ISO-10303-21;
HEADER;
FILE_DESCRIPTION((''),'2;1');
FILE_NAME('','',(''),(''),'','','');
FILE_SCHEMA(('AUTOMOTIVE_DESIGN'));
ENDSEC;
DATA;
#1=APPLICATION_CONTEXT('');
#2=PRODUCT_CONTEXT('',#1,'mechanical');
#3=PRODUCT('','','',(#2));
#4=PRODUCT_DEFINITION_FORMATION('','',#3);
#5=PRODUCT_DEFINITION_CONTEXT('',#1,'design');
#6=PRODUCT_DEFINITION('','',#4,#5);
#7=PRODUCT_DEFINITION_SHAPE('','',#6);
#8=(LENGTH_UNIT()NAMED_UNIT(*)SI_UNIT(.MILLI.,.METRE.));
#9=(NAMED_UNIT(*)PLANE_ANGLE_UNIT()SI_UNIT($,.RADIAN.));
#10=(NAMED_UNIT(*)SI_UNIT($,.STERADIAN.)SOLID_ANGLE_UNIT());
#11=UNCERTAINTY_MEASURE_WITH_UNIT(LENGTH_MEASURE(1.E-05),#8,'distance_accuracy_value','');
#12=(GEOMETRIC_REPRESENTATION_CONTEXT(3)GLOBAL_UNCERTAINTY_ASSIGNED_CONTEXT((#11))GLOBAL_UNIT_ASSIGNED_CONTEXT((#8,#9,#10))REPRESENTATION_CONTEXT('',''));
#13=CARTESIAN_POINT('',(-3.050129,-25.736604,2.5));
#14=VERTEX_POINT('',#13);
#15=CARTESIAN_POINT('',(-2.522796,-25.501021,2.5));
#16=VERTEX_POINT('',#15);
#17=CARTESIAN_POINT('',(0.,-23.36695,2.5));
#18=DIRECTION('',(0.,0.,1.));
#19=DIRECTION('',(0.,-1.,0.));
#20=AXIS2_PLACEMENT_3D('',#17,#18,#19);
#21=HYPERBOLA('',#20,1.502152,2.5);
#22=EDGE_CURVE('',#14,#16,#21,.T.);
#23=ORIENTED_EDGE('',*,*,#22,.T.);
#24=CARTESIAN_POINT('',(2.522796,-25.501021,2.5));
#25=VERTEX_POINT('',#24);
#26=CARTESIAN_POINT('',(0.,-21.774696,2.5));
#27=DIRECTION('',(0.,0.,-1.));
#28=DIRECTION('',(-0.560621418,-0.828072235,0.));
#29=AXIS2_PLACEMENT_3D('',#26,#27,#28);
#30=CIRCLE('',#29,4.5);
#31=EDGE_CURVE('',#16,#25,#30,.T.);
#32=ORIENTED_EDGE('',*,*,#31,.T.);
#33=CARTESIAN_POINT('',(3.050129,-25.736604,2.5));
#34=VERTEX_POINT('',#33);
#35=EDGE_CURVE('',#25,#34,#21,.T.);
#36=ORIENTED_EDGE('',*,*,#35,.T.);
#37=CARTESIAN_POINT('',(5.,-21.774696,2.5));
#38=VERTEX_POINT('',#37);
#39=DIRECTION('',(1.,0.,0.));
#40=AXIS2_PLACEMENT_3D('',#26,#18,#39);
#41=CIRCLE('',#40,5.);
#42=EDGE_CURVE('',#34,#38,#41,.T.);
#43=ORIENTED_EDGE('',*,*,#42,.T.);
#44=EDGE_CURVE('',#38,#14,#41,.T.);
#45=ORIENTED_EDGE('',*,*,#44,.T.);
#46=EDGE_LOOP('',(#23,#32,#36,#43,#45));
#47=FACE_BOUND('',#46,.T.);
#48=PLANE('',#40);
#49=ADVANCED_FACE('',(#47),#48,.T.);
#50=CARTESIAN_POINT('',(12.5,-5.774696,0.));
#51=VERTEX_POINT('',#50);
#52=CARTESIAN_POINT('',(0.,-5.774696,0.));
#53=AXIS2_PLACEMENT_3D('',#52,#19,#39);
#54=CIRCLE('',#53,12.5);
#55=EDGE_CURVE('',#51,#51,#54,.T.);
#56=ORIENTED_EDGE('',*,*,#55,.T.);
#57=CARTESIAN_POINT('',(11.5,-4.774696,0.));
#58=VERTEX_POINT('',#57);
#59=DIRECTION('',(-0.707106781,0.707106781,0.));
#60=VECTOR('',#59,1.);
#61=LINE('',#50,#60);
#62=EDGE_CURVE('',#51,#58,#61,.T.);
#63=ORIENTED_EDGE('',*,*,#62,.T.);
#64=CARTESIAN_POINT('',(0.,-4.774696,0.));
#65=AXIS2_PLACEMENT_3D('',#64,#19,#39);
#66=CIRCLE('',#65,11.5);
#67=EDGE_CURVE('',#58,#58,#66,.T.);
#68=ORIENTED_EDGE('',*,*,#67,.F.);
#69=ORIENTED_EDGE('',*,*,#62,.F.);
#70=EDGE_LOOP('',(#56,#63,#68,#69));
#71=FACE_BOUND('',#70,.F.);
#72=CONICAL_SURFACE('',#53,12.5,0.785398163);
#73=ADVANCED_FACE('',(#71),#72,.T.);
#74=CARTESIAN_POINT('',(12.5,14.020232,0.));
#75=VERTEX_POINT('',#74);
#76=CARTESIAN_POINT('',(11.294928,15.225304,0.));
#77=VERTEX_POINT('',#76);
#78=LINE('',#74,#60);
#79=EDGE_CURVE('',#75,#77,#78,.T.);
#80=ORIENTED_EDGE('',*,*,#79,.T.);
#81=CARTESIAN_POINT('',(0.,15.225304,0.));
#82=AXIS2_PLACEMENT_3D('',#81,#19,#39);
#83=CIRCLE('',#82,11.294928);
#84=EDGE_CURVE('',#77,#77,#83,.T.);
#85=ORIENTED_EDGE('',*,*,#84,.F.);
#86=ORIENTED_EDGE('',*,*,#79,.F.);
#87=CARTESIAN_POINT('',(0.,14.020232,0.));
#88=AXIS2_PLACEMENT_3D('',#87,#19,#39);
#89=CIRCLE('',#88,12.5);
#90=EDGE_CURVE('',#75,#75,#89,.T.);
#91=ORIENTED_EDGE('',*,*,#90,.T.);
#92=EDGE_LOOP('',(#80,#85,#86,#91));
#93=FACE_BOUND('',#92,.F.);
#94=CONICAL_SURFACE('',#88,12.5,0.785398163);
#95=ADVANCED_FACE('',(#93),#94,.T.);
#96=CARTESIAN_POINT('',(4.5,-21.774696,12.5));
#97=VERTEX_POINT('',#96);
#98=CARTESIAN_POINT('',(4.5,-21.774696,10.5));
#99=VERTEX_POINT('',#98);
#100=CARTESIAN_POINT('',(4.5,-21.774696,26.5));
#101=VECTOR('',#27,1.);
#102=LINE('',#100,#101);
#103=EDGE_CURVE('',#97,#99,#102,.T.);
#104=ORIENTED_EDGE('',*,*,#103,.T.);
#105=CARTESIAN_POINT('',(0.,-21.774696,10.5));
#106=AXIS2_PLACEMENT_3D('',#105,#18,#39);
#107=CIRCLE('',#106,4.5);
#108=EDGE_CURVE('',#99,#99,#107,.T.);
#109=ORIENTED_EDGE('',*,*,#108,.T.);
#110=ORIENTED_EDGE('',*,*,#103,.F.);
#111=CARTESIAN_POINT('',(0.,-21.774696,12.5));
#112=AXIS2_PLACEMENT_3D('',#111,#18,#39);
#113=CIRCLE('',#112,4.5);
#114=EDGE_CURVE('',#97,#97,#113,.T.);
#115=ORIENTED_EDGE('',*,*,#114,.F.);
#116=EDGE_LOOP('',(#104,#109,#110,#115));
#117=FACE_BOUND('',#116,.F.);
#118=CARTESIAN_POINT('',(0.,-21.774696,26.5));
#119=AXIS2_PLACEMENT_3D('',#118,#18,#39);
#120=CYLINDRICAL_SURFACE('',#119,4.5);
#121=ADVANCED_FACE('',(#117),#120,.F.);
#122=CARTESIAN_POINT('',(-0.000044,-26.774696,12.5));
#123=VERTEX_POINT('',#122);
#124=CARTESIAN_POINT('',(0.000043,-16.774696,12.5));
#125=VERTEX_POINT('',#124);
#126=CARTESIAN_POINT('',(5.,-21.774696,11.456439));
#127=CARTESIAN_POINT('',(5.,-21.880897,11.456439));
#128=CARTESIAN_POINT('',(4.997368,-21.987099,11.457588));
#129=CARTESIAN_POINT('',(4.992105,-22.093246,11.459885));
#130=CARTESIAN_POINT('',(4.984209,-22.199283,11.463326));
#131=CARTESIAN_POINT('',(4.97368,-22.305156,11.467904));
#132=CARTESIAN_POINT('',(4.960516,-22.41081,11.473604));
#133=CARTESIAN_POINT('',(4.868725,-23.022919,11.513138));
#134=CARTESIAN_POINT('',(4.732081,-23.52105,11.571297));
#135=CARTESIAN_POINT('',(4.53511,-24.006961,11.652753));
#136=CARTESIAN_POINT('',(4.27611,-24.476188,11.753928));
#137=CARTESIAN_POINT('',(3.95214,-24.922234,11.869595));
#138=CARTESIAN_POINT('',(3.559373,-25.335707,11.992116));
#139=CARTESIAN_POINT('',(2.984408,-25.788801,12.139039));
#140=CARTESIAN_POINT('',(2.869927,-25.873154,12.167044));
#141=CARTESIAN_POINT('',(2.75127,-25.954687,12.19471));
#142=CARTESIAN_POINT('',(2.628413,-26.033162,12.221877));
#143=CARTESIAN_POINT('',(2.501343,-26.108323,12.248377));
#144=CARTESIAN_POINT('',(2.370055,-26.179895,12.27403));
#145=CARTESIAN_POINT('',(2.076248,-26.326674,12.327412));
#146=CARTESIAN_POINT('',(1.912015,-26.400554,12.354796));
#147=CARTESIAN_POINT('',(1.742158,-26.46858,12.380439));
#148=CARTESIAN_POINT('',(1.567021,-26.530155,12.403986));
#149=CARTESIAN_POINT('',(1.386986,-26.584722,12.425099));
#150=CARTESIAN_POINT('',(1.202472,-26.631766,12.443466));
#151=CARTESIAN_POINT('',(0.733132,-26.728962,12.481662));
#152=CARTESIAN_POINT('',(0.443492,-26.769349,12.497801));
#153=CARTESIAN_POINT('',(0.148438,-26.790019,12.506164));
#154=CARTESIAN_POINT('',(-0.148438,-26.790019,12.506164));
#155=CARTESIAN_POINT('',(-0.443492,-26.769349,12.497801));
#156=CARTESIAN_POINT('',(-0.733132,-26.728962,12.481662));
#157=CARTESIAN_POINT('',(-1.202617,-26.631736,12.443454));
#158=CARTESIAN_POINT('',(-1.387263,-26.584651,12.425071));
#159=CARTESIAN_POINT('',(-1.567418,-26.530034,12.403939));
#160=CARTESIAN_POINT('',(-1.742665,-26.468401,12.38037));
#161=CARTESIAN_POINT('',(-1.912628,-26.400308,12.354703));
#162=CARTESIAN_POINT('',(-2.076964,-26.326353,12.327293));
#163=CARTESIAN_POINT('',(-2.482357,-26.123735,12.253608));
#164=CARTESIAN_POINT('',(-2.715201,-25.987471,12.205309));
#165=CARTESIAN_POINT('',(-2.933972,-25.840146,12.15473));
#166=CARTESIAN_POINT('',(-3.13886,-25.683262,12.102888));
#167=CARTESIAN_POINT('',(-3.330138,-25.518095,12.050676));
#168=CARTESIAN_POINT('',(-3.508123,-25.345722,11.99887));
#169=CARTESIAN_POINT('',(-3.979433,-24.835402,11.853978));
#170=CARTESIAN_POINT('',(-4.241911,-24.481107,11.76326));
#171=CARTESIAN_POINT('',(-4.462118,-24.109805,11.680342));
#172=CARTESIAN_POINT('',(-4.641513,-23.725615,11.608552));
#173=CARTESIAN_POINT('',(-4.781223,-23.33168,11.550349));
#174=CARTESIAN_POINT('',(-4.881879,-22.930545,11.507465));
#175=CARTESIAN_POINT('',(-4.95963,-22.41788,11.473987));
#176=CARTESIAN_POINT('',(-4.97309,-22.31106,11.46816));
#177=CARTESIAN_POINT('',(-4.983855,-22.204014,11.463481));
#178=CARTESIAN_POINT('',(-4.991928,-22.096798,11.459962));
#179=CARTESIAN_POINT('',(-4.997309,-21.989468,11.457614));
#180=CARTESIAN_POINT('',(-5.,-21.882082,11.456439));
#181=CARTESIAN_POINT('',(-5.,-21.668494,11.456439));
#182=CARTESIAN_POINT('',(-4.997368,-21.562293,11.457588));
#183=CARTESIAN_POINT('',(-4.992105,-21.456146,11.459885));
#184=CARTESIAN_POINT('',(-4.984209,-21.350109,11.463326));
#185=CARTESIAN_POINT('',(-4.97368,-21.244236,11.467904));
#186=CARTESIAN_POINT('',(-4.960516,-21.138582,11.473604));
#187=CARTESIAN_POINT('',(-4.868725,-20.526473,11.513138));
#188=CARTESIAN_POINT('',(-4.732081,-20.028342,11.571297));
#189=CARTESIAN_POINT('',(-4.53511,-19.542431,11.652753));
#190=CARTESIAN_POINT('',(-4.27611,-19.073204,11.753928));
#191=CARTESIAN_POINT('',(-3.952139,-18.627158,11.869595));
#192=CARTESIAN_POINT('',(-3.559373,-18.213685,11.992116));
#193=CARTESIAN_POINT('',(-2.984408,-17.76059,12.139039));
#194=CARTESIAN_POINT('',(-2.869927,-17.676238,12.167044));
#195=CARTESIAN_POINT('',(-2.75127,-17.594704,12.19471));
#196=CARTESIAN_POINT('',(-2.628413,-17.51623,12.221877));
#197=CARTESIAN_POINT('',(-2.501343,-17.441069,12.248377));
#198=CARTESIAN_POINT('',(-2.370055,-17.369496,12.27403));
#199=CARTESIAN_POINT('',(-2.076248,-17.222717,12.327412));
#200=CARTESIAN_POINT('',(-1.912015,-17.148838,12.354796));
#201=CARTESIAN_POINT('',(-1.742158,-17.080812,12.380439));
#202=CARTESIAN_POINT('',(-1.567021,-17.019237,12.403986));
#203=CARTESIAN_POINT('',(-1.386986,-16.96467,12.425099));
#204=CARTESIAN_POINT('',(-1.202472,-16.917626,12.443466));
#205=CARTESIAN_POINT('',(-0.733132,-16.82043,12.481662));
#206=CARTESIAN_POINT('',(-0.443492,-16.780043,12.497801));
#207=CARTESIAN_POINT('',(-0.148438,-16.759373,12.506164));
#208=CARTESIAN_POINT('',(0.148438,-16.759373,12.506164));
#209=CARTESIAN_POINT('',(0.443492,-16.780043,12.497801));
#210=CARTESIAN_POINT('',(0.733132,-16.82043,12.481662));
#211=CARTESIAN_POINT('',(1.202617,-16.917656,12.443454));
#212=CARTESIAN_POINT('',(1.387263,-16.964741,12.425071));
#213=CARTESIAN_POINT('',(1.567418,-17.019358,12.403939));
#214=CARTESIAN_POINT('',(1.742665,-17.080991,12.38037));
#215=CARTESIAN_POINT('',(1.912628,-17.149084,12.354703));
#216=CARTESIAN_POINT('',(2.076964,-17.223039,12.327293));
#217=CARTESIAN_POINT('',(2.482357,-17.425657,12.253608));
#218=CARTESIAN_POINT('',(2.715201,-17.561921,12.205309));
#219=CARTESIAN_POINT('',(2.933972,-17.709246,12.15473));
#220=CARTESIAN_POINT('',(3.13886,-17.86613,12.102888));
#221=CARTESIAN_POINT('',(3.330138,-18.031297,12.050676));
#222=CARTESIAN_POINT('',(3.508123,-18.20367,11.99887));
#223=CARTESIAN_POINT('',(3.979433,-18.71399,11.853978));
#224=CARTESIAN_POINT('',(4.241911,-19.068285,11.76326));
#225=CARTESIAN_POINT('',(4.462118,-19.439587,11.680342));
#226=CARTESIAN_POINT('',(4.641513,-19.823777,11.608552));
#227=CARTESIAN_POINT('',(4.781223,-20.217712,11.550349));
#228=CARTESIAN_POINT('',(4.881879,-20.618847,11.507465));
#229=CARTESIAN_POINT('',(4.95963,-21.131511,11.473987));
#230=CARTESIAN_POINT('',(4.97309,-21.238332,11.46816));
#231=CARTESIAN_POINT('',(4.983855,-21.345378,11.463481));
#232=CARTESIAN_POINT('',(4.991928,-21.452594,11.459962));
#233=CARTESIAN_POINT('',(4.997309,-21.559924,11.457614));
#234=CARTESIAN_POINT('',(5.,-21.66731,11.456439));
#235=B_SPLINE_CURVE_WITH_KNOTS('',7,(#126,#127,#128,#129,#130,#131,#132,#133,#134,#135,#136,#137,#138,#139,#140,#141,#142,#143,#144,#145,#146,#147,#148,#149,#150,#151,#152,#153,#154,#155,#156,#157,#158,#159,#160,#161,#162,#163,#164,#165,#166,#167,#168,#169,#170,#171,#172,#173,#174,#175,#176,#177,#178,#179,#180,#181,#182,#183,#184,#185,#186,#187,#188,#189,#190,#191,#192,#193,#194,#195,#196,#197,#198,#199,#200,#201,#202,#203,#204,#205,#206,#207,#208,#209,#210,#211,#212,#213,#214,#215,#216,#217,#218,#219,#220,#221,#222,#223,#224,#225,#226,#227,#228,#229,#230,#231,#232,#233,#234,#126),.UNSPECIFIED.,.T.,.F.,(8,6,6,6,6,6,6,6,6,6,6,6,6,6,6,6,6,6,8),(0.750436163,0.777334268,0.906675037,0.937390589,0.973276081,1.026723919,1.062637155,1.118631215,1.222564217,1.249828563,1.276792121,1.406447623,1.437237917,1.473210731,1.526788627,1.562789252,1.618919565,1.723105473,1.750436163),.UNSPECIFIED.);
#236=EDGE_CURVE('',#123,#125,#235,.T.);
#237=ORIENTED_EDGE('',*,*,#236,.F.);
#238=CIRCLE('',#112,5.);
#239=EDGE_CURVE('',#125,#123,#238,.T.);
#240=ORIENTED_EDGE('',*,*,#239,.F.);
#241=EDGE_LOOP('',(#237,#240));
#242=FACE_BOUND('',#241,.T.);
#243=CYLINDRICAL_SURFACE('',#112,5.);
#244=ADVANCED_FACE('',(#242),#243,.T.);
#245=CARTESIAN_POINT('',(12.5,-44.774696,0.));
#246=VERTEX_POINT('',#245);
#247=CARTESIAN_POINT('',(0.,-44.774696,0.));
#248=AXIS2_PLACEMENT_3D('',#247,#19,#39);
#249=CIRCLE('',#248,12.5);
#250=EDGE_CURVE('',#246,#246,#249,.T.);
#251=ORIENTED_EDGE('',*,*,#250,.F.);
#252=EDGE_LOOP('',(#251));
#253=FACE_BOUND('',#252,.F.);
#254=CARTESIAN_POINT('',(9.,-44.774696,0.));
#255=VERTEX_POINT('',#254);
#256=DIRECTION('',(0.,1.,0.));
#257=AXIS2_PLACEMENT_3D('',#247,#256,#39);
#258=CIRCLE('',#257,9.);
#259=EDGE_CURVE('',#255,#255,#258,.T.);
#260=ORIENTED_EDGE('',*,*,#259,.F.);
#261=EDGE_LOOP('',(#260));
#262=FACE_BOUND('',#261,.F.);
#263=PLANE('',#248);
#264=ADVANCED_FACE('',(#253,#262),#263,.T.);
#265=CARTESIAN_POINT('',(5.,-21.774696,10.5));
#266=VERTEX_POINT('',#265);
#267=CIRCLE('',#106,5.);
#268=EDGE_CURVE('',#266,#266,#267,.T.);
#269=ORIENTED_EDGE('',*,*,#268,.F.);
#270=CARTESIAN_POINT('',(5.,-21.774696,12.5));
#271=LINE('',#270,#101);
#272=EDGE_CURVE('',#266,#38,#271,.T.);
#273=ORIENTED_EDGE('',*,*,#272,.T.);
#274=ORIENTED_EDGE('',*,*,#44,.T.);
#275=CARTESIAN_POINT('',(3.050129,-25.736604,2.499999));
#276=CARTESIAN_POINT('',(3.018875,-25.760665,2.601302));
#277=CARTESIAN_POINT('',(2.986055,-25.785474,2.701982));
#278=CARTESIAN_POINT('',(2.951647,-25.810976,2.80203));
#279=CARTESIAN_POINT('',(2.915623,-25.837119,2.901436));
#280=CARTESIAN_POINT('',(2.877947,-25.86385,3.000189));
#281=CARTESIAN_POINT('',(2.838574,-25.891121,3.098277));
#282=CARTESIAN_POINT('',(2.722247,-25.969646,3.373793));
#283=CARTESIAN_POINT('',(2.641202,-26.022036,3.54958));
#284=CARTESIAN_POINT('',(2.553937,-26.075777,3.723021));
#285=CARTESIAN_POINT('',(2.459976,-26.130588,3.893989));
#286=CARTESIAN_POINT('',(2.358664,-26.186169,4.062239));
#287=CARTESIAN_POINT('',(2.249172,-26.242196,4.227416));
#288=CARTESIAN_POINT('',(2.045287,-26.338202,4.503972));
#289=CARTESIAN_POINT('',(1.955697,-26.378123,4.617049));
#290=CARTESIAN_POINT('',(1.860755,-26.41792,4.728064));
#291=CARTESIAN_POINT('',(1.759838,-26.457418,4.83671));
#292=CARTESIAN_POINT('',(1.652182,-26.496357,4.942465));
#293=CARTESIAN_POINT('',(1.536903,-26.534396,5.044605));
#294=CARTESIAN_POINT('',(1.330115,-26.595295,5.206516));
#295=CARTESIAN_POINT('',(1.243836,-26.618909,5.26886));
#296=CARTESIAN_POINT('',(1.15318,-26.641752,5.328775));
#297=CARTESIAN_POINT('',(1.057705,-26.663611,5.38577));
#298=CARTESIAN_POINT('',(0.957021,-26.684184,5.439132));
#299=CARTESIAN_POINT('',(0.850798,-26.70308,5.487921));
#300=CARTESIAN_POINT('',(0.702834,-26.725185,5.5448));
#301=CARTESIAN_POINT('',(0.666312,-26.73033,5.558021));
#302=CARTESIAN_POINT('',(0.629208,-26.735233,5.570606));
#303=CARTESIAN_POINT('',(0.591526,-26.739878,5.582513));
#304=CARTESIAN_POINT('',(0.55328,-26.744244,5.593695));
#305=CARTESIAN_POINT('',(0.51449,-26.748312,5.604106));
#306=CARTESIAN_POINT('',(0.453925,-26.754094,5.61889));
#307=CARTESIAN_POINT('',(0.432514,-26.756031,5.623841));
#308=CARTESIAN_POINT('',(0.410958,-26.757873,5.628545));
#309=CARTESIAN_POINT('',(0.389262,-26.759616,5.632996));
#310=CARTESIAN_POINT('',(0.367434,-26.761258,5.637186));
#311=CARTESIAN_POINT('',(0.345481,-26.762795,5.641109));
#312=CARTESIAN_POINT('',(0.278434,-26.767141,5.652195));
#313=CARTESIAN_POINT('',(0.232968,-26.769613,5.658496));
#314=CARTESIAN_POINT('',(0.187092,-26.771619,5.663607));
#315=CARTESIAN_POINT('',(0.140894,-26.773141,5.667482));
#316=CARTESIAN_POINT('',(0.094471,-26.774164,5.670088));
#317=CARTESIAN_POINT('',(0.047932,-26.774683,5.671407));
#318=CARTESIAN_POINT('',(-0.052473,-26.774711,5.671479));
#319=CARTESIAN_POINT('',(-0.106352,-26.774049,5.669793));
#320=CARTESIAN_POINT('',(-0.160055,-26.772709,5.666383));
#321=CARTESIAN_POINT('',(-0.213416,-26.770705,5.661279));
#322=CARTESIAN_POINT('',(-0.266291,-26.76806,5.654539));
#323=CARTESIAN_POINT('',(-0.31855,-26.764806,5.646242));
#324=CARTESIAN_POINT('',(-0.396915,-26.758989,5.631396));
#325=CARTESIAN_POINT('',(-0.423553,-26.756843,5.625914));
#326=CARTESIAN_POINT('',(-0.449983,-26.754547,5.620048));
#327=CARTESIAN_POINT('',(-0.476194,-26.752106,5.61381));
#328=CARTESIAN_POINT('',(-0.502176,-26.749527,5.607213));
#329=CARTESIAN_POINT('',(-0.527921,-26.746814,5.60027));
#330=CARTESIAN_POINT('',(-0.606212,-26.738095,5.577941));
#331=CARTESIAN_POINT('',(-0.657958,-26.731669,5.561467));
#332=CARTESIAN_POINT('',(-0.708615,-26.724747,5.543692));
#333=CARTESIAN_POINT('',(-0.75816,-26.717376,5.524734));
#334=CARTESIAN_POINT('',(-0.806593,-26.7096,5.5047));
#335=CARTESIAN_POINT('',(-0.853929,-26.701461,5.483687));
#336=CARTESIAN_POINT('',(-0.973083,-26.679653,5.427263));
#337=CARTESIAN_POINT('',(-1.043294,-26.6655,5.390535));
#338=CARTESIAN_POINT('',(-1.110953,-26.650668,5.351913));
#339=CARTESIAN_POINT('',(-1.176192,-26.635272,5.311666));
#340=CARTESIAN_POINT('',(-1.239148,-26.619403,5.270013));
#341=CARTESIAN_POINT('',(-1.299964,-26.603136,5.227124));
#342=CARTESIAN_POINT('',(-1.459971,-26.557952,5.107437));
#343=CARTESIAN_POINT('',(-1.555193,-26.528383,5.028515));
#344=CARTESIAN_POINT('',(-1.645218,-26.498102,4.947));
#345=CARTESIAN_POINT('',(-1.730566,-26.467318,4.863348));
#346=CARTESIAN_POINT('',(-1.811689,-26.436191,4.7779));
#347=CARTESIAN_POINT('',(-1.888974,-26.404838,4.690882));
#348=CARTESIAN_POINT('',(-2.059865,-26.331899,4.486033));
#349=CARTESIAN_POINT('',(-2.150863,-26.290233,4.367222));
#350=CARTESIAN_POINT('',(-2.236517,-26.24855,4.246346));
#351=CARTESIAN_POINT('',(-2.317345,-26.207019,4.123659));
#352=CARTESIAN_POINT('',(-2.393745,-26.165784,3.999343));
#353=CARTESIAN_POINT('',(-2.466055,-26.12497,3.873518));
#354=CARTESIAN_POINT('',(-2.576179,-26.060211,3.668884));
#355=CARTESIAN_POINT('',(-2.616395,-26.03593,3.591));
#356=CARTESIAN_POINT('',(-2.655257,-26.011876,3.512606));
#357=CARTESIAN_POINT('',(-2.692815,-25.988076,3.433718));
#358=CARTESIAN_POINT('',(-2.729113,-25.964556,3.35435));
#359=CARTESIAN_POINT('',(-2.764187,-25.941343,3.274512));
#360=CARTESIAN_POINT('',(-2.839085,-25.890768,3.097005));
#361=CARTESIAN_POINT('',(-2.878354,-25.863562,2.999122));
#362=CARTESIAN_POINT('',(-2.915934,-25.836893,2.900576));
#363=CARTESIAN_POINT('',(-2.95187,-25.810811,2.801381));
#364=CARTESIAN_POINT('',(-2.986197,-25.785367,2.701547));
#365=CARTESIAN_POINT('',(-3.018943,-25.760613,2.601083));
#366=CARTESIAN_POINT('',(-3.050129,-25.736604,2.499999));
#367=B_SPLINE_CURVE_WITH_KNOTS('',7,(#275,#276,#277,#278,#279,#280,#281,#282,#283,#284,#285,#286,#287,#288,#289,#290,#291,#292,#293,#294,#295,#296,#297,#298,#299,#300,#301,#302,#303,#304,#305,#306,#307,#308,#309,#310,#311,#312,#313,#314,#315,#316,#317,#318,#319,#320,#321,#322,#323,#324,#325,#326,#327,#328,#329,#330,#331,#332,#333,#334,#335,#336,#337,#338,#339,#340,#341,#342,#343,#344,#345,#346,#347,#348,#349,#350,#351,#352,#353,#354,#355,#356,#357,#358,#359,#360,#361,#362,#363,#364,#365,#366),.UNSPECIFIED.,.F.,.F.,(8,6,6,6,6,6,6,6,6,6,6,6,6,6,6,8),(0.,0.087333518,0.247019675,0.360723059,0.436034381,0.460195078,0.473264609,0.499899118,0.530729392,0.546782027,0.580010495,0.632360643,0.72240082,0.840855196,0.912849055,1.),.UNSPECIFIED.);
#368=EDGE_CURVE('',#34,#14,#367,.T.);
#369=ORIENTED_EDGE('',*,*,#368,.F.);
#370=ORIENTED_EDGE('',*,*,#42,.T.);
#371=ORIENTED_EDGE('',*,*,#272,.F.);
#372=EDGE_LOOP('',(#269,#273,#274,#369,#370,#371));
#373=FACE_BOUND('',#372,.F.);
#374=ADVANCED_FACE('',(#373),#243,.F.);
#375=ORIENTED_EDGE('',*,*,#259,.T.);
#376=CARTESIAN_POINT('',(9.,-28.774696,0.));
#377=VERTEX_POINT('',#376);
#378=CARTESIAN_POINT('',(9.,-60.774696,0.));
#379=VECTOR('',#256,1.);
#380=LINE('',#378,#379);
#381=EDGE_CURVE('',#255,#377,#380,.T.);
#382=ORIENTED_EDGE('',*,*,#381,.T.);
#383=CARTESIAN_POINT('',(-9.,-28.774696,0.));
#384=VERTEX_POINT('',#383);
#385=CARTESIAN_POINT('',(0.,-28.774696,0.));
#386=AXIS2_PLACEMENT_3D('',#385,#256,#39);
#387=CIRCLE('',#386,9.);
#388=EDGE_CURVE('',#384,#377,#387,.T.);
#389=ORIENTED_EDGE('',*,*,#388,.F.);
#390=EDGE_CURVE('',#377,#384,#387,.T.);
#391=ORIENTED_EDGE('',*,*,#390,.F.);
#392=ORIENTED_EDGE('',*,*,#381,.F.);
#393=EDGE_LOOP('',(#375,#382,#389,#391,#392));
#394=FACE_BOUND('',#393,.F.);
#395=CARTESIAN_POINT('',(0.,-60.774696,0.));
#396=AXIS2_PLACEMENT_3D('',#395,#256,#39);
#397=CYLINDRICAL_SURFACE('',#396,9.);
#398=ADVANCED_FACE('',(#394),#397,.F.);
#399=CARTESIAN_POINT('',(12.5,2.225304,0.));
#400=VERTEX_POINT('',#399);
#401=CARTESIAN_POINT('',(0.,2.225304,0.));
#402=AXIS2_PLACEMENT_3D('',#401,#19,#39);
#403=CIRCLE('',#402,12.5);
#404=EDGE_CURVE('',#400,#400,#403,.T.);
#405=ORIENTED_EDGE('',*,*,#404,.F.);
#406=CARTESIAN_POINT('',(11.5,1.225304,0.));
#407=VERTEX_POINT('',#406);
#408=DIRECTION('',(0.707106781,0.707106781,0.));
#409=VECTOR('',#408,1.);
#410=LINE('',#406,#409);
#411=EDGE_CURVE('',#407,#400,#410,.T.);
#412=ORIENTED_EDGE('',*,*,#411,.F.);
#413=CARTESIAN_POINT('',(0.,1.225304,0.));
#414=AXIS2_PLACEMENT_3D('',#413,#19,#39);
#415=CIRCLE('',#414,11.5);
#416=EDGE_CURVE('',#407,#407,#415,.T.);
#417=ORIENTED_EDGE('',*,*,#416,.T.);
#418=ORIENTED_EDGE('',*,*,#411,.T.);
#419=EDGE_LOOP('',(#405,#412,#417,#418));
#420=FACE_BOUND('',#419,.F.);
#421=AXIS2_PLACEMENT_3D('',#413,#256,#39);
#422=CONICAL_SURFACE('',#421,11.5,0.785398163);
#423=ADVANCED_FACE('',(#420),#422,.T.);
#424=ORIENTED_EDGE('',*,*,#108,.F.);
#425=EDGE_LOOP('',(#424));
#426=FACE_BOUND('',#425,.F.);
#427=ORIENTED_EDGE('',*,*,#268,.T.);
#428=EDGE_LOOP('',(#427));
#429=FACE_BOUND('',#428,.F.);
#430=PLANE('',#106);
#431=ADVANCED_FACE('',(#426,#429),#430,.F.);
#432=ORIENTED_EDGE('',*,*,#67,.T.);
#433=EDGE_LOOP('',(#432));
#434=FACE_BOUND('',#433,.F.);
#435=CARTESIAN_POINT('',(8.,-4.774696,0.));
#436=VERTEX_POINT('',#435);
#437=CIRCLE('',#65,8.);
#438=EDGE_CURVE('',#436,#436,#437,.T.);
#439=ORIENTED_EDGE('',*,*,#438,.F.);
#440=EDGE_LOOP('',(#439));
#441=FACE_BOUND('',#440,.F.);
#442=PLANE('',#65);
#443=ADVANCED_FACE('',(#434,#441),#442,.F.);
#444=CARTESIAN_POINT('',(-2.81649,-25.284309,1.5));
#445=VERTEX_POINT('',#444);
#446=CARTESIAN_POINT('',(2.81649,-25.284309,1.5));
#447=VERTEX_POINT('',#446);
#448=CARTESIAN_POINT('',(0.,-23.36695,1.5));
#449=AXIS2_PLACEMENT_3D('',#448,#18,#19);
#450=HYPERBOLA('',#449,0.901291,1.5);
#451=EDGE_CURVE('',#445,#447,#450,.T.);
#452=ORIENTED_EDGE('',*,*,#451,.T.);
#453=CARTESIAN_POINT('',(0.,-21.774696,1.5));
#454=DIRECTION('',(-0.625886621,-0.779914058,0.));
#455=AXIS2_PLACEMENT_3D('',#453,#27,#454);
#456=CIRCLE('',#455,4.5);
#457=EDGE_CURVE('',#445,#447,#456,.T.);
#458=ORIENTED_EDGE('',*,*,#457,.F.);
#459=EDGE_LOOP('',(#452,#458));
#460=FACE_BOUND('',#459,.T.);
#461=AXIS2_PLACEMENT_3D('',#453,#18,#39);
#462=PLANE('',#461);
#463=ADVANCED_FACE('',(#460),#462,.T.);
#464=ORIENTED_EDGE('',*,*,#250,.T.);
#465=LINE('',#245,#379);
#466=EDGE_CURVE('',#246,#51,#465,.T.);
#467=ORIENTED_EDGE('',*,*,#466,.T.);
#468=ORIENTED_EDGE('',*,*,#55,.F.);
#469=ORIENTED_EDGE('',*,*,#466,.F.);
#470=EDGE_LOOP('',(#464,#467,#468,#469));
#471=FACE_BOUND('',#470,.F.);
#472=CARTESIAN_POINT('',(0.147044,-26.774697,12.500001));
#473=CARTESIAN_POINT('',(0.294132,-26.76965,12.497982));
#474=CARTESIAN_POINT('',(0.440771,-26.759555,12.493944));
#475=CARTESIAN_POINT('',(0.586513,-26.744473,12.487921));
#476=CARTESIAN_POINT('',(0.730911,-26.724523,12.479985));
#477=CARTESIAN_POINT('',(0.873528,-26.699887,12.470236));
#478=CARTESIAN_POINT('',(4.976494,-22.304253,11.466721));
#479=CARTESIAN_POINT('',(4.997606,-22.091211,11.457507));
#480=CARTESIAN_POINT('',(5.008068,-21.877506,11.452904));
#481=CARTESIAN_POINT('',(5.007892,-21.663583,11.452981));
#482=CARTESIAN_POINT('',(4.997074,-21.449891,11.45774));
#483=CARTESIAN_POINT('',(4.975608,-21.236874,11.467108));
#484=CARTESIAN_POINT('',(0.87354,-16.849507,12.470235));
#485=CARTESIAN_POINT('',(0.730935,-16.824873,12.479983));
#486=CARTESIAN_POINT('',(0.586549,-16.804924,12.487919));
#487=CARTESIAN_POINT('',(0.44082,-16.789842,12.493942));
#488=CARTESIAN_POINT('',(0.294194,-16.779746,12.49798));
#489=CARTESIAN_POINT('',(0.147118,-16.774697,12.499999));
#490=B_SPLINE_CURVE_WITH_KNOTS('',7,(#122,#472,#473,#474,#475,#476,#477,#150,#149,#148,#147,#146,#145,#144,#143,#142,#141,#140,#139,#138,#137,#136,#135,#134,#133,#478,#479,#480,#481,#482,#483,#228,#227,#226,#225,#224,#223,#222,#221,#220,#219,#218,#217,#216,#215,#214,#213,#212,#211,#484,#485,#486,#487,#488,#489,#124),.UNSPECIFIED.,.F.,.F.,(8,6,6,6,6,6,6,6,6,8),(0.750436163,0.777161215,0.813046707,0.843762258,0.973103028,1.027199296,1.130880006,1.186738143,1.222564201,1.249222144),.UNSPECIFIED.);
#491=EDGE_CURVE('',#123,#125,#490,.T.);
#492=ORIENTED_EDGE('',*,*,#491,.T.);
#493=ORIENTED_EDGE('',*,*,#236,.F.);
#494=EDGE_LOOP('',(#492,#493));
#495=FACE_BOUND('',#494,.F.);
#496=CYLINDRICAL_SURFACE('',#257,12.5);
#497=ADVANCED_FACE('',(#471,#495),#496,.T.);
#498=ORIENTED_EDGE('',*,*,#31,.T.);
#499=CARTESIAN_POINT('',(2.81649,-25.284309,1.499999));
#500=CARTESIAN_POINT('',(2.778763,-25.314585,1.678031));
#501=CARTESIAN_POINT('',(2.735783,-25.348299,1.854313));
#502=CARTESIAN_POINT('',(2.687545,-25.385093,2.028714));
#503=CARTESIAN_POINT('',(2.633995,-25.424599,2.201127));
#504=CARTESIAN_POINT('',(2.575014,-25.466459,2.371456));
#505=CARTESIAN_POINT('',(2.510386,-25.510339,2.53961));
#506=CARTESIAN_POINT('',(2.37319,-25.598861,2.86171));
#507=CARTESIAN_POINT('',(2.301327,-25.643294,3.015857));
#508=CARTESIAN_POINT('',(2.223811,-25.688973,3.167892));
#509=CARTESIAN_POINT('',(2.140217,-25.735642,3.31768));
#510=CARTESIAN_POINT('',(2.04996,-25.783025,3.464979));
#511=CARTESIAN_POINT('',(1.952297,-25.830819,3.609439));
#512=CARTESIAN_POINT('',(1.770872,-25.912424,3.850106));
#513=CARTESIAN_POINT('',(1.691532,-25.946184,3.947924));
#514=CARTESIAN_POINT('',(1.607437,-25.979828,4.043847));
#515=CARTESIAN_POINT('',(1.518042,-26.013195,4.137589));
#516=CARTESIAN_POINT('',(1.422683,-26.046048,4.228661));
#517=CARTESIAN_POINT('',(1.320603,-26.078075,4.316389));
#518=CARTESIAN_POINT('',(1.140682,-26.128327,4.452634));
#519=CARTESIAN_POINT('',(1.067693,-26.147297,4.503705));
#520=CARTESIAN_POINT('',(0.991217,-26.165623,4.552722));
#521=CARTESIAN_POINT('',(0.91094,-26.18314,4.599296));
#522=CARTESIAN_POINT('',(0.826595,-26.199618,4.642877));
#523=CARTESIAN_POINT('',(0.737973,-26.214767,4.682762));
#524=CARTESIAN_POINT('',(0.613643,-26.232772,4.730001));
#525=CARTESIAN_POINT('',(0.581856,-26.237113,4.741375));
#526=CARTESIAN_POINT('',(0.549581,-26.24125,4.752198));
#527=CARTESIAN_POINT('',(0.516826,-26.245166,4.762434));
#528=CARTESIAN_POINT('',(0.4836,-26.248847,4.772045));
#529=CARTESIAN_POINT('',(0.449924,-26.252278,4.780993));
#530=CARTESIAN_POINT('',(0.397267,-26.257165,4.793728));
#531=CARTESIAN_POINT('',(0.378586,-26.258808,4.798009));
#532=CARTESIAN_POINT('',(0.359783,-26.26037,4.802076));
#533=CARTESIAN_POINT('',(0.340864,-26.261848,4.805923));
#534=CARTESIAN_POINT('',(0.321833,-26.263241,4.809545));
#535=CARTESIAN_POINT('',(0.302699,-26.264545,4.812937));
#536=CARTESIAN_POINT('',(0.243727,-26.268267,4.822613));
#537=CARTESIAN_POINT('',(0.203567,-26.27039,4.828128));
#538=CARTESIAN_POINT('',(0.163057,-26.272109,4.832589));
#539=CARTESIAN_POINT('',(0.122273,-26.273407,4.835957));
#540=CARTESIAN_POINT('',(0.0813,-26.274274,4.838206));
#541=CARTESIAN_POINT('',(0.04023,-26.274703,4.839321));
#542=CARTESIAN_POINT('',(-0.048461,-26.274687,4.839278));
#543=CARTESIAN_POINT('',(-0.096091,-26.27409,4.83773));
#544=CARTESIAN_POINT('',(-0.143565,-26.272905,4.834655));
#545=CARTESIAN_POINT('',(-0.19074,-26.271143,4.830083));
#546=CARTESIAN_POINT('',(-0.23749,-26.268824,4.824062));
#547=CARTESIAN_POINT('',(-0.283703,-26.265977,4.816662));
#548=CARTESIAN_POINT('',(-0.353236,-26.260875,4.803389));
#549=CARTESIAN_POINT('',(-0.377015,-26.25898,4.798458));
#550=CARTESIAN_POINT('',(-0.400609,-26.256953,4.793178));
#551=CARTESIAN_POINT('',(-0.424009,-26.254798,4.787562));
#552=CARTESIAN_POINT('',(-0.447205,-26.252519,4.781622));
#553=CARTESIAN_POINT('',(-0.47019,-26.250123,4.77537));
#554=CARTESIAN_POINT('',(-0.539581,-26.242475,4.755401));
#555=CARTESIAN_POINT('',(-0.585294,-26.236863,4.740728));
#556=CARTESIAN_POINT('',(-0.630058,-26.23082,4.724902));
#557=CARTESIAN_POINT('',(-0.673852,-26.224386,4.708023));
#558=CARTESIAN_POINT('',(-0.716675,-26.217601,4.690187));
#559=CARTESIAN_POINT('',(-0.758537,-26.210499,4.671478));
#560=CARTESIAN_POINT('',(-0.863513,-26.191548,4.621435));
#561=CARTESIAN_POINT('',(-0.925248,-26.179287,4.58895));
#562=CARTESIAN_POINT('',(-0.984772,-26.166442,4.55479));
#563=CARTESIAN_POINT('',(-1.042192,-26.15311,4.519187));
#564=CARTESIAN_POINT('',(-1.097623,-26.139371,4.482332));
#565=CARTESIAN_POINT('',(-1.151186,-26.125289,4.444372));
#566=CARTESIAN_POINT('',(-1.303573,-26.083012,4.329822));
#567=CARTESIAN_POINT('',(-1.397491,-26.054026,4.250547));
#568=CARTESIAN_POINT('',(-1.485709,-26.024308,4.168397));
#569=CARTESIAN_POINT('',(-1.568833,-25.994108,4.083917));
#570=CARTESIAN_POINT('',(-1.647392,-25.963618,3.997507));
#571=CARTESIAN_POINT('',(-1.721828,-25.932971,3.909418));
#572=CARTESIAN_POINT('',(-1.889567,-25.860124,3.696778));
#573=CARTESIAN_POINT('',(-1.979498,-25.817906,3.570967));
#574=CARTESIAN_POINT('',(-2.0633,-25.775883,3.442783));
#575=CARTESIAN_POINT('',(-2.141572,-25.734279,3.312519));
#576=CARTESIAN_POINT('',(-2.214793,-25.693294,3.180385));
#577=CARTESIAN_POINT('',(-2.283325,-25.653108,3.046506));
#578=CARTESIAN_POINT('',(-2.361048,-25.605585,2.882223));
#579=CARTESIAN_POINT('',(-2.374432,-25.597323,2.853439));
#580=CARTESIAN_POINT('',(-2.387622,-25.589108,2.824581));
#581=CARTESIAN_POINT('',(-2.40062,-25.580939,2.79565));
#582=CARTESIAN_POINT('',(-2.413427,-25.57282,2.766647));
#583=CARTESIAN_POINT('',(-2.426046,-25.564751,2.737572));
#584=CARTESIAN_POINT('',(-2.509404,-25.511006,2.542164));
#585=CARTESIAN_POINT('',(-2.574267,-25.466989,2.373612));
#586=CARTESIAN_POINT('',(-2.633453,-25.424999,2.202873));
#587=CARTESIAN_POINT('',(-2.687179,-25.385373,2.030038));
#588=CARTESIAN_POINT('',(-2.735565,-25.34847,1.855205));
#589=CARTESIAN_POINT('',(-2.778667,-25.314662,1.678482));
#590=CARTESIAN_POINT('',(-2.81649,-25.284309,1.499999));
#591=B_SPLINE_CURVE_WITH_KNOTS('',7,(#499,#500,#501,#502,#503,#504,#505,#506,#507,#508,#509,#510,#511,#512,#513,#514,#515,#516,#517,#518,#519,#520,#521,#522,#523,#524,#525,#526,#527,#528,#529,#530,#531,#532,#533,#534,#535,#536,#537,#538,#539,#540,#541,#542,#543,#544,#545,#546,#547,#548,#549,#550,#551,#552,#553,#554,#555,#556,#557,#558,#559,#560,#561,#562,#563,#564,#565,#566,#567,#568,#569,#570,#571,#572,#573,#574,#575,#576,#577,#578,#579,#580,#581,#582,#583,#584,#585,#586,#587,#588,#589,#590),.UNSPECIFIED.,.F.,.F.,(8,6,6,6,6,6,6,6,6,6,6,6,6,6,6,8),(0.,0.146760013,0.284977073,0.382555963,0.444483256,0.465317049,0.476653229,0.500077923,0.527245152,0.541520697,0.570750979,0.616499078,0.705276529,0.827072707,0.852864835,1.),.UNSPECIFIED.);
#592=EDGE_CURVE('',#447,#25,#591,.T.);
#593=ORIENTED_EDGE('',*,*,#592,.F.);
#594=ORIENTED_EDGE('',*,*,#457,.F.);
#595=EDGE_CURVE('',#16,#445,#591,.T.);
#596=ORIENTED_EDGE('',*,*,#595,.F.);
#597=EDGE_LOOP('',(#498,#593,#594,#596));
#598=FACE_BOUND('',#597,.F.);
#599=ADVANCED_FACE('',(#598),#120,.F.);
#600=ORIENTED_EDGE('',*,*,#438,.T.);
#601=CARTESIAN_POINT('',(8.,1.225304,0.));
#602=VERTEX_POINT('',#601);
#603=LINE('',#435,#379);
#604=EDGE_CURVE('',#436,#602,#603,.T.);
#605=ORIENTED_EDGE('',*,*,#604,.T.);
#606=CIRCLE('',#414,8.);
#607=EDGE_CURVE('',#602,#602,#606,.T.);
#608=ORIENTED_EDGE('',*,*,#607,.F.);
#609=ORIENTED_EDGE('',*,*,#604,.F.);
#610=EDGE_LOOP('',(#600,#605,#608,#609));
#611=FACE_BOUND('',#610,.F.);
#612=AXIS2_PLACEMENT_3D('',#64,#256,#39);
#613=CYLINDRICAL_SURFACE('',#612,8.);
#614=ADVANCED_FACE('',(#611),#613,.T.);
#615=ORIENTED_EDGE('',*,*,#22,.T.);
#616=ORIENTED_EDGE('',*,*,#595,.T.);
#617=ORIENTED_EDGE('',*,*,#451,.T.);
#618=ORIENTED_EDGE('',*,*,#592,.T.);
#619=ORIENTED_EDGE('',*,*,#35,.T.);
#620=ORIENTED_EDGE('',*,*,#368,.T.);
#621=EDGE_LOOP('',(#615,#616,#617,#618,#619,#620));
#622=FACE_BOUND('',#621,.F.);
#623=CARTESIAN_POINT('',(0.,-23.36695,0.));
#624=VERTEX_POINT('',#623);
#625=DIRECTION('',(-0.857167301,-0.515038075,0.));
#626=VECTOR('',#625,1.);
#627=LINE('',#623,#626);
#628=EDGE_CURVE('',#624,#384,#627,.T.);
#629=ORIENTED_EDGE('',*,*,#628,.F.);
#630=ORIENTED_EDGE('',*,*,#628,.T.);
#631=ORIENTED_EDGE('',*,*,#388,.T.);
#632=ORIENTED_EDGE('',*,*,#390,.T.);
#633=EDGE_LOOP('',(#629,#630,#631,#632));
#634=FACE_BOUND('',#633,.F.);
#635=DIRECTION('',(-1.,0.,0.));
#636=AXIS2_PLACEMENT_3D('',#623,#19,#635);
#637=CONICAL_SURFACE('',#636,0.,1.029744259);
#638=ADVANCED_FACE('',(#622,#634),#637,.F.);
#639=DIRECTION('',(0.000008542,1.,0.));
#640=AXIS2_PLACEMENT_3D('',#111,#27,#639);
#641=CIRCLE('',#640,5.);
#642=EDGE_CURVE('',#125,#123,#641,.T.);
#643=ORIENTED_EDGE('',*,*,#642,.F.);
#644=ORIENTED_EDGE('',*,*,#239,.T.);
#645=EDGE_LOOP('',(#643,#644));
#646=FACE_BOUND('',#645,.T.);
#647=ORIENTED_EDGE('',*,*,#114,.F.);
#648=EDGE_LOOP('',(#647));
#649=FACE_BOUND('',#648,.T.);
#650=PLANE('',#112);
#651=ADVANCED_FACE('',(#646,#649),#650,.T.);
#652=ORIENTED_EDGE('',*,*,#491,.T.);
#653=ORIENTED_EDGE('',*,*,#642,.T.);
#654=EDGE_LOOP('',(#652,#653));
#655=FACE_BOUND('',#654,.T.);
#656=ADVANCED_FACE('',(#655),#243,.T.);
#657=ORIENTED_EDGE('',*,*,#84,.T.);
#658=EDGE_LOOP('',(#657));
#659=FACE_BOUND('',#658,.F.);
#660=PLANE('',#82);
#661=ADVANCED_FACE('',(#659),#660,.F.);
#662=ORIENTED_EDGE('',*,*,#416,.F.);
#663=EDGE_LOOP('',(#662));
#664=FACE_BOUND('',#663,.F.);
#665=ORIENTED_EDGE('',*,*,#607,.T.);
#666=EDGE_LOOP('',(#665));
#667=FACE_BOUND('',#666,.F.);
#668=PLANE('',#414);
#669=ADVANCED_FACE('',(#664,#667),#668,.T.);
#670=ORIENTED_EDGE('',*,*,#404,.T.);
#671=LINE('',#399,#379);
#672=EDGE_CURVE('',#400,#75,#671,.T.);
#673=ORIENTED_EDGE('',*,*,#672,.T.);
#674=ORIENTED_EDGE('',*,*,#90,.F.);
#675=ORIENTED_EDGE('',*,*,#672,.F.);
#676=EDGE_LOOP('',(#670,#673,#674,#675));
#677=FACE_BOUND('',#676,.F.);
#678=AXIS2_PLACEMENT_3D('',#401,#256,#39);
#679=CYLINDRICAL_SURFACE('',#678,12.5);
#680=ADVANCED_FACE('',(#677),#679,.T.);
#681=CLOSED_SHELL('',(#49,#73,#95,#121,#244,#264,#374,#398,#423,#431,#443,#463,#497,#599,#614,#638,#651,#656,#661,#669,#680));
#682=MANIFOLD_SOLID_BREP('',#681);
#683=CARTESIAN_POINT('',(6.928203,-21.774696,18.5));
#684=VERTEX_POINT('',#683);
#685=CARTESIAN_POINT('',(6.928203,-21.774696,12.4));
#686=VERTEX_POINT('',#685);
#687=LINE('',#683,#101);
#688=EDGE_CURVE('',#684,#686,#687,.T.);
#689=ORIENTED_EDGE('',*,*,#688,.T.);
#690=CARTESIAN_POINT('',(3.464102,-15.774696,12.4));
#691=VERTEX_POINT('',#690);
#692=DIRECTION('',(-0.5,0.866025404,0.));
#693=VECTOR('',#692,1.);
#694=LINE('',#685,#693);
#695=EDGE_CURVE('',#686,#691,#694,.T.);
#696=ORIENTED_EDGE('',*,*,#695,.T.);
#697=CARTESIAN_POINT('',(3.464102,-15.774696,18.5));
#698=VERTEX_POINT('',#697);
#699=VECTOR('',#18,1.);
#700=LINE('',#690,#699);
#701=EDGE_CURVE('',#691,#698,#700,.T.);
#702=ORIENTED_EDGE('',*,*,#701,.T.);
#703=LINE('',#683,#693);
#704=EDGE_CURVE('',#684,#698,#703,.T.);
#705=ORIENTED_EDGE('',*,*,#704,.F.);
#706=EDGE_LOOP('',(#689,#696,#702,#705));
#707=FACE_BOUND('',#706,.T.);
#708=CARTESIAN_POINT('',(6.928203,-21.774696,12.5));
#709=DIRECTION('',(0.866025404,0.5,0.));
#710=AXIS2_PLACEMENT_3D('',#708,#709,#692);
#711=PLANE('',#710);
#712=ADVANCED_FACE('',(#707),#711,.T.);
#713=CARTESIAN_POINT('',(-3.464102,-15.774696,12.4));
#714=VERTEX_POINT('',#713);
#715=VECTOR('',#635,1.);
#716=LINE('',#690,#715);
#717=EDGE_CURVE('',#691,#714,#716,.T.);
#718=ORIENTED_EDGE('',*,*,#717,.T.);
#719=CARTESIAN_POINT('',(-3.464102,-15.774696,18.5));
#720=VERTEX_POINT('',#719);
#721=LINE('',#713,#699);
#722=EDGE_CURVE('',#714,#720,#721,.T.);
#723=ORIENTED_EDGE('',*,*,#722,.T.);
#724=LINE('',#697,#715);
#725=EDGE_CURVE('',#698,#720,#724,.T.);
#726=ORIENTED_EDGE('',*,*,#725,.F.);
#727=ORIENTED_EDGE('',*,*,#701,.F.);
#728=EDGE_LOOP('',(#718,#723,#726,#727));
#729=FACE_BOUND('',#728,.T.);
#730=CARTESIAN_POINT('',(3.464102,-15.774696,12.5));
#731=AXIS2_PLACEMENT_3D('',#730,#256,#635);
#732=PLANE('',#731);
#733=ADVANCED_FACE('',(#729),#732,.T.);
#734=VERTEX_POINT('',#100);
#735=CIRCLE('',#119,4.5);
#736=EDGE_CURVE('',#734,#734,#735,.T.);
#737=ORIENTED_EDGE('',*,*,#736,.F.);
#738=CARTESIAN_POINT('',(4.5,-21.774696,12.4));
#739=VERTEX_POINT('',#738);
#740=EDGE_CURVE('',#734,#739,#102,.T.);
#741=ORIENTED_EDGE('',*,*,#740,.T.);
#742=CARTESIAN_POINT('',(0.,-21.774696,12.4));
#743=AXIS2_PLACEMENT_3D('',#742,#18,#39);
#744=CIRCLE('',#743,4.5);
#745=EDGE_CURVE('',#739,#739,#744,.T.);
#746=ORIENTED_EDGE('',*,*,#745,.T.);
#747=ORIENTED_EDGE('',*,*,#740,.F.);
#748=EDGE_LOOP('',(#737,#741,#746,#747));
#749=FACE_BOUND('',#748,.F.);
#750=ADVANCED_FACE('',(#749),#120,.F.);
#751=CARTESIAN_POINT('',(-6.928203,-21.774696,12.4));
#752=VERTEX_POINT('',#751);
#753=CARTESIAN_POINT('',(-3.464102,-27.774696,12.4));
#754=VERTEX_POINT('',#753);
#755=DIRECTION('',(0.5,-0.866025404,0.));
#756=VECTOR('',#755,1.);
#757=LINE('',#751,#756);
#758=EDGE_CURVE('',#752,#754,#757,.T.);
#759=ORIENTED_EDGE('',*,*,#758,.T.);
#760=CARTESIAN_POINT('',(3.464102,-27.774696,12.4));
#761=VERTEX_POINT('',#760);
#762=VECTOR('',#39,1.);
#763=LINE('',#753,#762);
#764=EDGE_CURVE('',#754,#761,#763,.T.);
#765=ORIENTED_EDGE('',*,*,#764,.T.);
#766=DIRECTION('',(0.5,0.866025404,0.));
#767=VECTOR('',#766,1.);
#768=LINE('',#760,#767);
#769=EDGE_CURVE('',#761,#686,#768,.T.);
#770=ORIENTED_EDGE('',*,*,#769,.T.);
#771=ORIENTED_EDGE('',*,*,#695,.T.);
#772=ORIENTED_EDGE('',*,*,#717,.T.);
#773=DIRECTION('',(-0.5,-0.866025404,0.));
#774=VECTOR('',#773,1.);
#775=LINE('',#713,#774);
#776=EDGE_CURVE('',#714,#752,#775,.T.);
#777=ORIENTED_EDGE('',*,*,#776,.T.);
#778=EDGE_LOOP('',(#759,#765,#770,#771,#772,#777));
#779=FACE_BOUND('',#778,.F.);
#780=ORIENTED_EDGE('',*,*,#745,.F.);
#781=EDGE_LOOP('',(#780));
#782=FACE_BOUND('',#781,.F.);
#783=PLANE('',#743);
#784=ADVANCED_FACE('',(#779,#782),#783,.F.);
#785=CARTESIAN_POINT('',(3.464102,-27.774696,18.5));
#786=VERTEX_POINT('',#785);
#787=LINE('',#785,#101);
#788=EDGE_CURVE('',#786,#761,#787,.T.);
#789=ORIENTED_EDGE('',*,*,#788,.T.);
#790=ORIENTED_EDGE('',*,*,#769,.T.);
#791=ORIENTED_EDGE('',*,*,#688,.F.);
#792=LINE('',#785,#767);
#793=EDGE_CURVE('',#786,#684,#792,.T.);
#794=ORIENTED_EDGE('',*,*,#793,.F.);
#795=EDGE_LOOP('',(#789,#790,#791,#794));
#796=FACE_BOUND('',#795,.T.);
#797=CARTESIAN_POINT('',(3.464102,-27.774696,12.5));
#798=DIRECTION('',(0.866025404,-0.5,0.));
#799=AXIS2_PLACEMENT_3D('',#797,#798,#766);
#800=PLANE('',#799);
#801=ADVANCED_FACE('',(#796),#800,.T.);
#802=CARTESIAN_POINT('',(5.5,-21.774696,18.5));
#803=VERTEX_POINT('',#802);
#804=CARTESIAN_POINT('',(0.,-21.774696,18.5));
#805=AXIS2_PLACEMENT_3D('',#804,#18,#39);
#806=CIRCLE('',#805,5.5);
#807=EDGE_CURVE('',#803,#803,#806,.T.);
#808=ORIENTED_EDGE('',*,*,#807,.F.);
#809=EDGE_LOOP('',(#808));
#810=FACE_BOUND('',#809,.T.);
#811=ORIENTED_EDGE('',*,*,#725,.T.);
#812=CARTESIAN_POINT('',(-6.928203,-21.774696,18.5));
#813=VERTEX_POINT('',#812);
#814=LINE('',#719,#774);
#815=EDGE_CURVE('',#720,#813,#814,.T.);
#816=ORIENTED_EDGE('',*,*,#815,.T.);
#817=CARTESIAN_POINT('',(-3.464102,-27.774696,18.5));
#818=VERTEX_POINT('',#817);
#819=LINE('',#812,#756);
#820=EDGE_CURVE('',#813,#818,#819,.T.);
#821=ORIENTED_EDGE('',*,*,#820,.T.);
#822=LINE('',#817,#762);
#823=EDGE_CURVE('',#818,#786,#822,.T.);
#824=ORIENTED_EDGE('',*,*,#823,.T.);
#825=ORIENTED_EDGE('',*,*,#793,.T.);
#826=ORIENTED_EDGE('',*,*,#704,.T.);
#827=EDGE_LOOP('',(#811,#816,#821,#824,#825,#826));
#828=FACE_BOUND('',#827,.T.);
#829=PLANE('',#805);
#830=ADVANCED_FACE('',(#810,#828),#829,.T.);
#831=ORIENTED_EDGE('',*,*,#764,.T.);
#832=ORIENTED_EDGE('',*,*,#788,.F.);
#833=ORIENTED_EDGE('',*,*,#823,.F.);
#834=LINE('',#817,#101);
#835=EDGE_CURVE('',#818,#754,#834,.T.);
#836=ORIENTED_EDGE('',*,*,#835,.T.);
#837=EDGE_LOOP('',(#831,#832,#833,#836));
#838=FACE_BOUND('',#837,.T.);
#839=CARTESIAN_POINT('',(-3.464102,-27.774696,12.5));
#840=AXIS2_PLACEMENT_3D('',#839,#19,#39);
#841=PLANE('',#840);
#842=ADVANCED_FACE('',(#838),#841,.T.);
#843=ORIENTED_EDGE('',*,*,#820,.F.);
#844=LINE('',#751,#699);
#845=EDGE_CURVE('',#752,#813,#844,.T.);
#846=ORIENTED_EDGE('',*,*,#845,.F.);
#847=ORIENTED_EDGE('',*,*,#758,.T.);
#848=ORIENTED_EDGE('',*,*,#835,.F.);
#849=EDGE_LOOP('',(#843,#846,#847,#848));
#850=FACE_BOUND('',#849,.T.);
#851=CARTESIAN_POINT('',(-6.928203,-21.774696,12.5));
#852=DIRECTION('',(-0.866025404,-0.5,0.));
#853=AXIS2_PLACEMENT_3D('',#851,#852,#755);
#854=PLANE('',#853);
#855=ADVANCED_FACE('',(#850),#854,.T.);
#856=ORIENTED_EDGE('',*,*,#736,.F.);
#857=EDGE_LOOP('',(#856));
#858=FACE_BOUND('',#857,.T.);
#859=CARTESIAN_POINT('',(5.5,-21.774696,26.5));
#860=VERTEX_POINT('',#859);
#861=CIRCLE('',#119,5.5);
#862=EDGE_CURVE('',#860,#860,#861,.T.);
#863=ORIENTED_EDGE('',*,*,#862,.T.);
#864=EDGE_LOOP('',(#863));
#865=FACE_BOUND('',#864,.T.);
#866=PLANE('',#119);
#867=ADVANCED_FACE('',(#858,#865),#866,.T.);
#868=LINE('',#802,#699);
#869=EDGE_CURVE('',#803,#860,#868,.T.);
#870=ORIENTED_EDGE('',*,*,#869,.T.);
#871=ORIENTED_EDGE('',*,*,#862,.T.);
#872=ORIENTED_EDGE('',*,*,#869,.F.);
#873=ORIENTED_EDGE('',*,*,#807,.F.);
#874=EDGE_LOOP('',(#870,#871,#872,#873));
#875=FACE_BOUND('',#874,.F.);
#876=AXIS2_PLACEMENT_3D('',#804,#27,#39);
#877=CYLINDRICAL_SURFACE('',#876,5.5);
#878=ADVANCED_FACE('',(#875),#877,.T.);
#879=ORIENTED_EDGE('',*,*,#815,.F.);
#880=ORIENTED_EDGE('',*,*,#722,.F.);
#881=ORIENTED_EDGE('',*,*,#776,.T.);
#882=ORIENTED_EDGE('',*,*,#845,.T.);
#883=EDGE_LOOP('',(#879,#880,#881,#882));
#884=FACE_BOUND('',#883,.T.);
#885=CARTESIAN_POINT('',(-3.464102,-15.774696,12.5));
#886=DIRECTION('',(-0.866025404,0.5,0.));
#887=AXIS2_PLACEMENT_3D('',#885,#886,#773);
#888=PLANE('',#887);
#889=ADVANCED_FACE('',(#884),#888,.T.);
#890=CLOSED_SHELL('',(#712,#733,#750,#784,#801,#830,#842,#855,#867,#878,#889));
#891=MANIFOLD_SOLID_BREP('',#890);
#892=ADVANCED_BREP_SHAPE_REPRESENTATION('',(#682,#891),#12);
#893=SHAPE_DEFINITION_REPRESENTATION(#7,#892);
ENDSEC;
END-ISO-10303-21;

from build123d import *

# Parameters (mm, degrees)
M20X2_0_TAPPED_HOLE1_D     = 18
M20X2_0_TAPPED_HOLE1_DEPTH = 16
M20X2_0_TAPPED_HOLE1_TIP   = 5.407745571
CUT_EXTRUDE1_START         = 12.5
SKETCH5_R                  = 5
CUT_EXTRUDE1_DEPTH         = 10
SKETCH6_R                  = 5
BOSS_EXTRUDE1_DEPTH        = 2
BOSS_EXTRUDE2_DEPTH        = 6
BOSS_EXTRUDE2_DEPTH_BACK   = 0.1
SKETCH8_R                  = 5.5
BOSS_EXTRUDE3_DEPTH        = 8
SKETCH9_R                  = 4.5
CUT_EXTRUDE2_DEPTH         = 25


with BuildPart() as part:
    # Sketch1 → Revolve1 (revolve)
    with BuildSketch(Plane.XY):
        Polygon((0, -44.774695914), (12.5, -44.774695914), (12.5, -5.774695914), (11.5, -4.774695914), (8, -4.774695914), (8, 1.225304086), (11.5, 1.225304086), (12.5, 2.225304086), (12.5, 14.020232183), (11.294928097, 15.225304086), (0, 15.225304086), align=None)
    revolve(axis=Axis((0, 17.675111153, 0), (0, -1, 0)))

    # M20x2.0 Tapped Hole1
    with Locations(Plane(origin=(0, -44.774695914, 0), x_dir=(-1, 0, 0), z_dir=(0, -1, 0))):
        with Locations((0, 0)):
            Hole(M20X2_0_TAPPED_HOLE1_D / 2, depth=M20X2_0_TAPPED_HOLE1_DEPTH)
            with Locations((0, 0, -(M20X2_0_TAPPED_HOLE1_DEPTH + M20X2_0_TAPPED_HOLE1_TIP / 2))):  # 118° drill point
                Cone(0, M20X2_0_TAPPED_HOLE1_D / 2, M20X2_0_TAPPED_HOLE1_TIP, mode=Mode.SUBTRACT)

    # Sketch5 → Cut-Extrude1 (cut)
    with BuildSketch(Plane.XY.offset(CUT_EXTRUDE1_START)):
        with Locations((0, -21.774695914)):
            Circle(SKETCH5_R)
    extrude(amount=-CUT_EXTRUDE1_DEPTH, mode=Mode.SUBTRACT)

    # Sketch6 → Boss-Extrude1 (add)
    with BuildSketch(Plane.XY.offset(12.5)):
        with Locations((0, -21.774695914)):
            Circle(SKETCH6_R)
    extrude(amount=-BOSS_EXTRUDE1_DEPTH)


with BuildPart() as body_2:
    # Sketch7 → Boss-Extrude2 (new body, two sides)
    with BuildSketch(Plane.XY.offset(12.5)) as boss_extrude2_sk:
        Polygon((6.92820323, -21.774695914), (3.464101615, -15.774695914), (-3.464101615, -15.774695914), (-6.92820323, -21.774695914), (-3.464101615, -27.774695914), (3.464101615, -27.774695914), align=None)
    extrude(amount=BOSS_EXTRUDE2_DEPTH)
    extrude(boss_extrude2_sk.sketch, amount=-BOSS_EXTRUDE2_DEPTH_BACK)

    # Sketch8 → Boss-Extrude3 (add)
    with BuildSketch(Plane.XY.offset(18.5)):
        with Locations((0, -21.774695914)):
            Circle(SKETCH8_R)
    extrude(amount=BOSS_EXTRUDE3_DEPTH)


with BuildPart() as cut_extrude2_tool:
    # Sketch9 → Cut-Extrude2 (new body)
    with BuildSketch(Plane.XY.offset(26.5)):
        with Locations((0, -21.774695914)):
            Circle(SKETCH9_R)
    extrude(amount=-CUT_EXTRUDE2_DEPTH)


with BuildPart() as part_1:
    add(part.part)

    # Cut-Extrude2: cut by cut_extrude2_tool
    add(cut_extrude2_tool.part, mode=Mode.SUBTRACT)


with BuildPart() as body_2_1:
    add(body_2.part)

    # Cut-Extrude2: cut by cut_extrude2_tool
    add(cut_extrude2_tool.part, mode=Mode.SUBTRACT)


solid = Compound([part_1.part, body_2_1.part])
